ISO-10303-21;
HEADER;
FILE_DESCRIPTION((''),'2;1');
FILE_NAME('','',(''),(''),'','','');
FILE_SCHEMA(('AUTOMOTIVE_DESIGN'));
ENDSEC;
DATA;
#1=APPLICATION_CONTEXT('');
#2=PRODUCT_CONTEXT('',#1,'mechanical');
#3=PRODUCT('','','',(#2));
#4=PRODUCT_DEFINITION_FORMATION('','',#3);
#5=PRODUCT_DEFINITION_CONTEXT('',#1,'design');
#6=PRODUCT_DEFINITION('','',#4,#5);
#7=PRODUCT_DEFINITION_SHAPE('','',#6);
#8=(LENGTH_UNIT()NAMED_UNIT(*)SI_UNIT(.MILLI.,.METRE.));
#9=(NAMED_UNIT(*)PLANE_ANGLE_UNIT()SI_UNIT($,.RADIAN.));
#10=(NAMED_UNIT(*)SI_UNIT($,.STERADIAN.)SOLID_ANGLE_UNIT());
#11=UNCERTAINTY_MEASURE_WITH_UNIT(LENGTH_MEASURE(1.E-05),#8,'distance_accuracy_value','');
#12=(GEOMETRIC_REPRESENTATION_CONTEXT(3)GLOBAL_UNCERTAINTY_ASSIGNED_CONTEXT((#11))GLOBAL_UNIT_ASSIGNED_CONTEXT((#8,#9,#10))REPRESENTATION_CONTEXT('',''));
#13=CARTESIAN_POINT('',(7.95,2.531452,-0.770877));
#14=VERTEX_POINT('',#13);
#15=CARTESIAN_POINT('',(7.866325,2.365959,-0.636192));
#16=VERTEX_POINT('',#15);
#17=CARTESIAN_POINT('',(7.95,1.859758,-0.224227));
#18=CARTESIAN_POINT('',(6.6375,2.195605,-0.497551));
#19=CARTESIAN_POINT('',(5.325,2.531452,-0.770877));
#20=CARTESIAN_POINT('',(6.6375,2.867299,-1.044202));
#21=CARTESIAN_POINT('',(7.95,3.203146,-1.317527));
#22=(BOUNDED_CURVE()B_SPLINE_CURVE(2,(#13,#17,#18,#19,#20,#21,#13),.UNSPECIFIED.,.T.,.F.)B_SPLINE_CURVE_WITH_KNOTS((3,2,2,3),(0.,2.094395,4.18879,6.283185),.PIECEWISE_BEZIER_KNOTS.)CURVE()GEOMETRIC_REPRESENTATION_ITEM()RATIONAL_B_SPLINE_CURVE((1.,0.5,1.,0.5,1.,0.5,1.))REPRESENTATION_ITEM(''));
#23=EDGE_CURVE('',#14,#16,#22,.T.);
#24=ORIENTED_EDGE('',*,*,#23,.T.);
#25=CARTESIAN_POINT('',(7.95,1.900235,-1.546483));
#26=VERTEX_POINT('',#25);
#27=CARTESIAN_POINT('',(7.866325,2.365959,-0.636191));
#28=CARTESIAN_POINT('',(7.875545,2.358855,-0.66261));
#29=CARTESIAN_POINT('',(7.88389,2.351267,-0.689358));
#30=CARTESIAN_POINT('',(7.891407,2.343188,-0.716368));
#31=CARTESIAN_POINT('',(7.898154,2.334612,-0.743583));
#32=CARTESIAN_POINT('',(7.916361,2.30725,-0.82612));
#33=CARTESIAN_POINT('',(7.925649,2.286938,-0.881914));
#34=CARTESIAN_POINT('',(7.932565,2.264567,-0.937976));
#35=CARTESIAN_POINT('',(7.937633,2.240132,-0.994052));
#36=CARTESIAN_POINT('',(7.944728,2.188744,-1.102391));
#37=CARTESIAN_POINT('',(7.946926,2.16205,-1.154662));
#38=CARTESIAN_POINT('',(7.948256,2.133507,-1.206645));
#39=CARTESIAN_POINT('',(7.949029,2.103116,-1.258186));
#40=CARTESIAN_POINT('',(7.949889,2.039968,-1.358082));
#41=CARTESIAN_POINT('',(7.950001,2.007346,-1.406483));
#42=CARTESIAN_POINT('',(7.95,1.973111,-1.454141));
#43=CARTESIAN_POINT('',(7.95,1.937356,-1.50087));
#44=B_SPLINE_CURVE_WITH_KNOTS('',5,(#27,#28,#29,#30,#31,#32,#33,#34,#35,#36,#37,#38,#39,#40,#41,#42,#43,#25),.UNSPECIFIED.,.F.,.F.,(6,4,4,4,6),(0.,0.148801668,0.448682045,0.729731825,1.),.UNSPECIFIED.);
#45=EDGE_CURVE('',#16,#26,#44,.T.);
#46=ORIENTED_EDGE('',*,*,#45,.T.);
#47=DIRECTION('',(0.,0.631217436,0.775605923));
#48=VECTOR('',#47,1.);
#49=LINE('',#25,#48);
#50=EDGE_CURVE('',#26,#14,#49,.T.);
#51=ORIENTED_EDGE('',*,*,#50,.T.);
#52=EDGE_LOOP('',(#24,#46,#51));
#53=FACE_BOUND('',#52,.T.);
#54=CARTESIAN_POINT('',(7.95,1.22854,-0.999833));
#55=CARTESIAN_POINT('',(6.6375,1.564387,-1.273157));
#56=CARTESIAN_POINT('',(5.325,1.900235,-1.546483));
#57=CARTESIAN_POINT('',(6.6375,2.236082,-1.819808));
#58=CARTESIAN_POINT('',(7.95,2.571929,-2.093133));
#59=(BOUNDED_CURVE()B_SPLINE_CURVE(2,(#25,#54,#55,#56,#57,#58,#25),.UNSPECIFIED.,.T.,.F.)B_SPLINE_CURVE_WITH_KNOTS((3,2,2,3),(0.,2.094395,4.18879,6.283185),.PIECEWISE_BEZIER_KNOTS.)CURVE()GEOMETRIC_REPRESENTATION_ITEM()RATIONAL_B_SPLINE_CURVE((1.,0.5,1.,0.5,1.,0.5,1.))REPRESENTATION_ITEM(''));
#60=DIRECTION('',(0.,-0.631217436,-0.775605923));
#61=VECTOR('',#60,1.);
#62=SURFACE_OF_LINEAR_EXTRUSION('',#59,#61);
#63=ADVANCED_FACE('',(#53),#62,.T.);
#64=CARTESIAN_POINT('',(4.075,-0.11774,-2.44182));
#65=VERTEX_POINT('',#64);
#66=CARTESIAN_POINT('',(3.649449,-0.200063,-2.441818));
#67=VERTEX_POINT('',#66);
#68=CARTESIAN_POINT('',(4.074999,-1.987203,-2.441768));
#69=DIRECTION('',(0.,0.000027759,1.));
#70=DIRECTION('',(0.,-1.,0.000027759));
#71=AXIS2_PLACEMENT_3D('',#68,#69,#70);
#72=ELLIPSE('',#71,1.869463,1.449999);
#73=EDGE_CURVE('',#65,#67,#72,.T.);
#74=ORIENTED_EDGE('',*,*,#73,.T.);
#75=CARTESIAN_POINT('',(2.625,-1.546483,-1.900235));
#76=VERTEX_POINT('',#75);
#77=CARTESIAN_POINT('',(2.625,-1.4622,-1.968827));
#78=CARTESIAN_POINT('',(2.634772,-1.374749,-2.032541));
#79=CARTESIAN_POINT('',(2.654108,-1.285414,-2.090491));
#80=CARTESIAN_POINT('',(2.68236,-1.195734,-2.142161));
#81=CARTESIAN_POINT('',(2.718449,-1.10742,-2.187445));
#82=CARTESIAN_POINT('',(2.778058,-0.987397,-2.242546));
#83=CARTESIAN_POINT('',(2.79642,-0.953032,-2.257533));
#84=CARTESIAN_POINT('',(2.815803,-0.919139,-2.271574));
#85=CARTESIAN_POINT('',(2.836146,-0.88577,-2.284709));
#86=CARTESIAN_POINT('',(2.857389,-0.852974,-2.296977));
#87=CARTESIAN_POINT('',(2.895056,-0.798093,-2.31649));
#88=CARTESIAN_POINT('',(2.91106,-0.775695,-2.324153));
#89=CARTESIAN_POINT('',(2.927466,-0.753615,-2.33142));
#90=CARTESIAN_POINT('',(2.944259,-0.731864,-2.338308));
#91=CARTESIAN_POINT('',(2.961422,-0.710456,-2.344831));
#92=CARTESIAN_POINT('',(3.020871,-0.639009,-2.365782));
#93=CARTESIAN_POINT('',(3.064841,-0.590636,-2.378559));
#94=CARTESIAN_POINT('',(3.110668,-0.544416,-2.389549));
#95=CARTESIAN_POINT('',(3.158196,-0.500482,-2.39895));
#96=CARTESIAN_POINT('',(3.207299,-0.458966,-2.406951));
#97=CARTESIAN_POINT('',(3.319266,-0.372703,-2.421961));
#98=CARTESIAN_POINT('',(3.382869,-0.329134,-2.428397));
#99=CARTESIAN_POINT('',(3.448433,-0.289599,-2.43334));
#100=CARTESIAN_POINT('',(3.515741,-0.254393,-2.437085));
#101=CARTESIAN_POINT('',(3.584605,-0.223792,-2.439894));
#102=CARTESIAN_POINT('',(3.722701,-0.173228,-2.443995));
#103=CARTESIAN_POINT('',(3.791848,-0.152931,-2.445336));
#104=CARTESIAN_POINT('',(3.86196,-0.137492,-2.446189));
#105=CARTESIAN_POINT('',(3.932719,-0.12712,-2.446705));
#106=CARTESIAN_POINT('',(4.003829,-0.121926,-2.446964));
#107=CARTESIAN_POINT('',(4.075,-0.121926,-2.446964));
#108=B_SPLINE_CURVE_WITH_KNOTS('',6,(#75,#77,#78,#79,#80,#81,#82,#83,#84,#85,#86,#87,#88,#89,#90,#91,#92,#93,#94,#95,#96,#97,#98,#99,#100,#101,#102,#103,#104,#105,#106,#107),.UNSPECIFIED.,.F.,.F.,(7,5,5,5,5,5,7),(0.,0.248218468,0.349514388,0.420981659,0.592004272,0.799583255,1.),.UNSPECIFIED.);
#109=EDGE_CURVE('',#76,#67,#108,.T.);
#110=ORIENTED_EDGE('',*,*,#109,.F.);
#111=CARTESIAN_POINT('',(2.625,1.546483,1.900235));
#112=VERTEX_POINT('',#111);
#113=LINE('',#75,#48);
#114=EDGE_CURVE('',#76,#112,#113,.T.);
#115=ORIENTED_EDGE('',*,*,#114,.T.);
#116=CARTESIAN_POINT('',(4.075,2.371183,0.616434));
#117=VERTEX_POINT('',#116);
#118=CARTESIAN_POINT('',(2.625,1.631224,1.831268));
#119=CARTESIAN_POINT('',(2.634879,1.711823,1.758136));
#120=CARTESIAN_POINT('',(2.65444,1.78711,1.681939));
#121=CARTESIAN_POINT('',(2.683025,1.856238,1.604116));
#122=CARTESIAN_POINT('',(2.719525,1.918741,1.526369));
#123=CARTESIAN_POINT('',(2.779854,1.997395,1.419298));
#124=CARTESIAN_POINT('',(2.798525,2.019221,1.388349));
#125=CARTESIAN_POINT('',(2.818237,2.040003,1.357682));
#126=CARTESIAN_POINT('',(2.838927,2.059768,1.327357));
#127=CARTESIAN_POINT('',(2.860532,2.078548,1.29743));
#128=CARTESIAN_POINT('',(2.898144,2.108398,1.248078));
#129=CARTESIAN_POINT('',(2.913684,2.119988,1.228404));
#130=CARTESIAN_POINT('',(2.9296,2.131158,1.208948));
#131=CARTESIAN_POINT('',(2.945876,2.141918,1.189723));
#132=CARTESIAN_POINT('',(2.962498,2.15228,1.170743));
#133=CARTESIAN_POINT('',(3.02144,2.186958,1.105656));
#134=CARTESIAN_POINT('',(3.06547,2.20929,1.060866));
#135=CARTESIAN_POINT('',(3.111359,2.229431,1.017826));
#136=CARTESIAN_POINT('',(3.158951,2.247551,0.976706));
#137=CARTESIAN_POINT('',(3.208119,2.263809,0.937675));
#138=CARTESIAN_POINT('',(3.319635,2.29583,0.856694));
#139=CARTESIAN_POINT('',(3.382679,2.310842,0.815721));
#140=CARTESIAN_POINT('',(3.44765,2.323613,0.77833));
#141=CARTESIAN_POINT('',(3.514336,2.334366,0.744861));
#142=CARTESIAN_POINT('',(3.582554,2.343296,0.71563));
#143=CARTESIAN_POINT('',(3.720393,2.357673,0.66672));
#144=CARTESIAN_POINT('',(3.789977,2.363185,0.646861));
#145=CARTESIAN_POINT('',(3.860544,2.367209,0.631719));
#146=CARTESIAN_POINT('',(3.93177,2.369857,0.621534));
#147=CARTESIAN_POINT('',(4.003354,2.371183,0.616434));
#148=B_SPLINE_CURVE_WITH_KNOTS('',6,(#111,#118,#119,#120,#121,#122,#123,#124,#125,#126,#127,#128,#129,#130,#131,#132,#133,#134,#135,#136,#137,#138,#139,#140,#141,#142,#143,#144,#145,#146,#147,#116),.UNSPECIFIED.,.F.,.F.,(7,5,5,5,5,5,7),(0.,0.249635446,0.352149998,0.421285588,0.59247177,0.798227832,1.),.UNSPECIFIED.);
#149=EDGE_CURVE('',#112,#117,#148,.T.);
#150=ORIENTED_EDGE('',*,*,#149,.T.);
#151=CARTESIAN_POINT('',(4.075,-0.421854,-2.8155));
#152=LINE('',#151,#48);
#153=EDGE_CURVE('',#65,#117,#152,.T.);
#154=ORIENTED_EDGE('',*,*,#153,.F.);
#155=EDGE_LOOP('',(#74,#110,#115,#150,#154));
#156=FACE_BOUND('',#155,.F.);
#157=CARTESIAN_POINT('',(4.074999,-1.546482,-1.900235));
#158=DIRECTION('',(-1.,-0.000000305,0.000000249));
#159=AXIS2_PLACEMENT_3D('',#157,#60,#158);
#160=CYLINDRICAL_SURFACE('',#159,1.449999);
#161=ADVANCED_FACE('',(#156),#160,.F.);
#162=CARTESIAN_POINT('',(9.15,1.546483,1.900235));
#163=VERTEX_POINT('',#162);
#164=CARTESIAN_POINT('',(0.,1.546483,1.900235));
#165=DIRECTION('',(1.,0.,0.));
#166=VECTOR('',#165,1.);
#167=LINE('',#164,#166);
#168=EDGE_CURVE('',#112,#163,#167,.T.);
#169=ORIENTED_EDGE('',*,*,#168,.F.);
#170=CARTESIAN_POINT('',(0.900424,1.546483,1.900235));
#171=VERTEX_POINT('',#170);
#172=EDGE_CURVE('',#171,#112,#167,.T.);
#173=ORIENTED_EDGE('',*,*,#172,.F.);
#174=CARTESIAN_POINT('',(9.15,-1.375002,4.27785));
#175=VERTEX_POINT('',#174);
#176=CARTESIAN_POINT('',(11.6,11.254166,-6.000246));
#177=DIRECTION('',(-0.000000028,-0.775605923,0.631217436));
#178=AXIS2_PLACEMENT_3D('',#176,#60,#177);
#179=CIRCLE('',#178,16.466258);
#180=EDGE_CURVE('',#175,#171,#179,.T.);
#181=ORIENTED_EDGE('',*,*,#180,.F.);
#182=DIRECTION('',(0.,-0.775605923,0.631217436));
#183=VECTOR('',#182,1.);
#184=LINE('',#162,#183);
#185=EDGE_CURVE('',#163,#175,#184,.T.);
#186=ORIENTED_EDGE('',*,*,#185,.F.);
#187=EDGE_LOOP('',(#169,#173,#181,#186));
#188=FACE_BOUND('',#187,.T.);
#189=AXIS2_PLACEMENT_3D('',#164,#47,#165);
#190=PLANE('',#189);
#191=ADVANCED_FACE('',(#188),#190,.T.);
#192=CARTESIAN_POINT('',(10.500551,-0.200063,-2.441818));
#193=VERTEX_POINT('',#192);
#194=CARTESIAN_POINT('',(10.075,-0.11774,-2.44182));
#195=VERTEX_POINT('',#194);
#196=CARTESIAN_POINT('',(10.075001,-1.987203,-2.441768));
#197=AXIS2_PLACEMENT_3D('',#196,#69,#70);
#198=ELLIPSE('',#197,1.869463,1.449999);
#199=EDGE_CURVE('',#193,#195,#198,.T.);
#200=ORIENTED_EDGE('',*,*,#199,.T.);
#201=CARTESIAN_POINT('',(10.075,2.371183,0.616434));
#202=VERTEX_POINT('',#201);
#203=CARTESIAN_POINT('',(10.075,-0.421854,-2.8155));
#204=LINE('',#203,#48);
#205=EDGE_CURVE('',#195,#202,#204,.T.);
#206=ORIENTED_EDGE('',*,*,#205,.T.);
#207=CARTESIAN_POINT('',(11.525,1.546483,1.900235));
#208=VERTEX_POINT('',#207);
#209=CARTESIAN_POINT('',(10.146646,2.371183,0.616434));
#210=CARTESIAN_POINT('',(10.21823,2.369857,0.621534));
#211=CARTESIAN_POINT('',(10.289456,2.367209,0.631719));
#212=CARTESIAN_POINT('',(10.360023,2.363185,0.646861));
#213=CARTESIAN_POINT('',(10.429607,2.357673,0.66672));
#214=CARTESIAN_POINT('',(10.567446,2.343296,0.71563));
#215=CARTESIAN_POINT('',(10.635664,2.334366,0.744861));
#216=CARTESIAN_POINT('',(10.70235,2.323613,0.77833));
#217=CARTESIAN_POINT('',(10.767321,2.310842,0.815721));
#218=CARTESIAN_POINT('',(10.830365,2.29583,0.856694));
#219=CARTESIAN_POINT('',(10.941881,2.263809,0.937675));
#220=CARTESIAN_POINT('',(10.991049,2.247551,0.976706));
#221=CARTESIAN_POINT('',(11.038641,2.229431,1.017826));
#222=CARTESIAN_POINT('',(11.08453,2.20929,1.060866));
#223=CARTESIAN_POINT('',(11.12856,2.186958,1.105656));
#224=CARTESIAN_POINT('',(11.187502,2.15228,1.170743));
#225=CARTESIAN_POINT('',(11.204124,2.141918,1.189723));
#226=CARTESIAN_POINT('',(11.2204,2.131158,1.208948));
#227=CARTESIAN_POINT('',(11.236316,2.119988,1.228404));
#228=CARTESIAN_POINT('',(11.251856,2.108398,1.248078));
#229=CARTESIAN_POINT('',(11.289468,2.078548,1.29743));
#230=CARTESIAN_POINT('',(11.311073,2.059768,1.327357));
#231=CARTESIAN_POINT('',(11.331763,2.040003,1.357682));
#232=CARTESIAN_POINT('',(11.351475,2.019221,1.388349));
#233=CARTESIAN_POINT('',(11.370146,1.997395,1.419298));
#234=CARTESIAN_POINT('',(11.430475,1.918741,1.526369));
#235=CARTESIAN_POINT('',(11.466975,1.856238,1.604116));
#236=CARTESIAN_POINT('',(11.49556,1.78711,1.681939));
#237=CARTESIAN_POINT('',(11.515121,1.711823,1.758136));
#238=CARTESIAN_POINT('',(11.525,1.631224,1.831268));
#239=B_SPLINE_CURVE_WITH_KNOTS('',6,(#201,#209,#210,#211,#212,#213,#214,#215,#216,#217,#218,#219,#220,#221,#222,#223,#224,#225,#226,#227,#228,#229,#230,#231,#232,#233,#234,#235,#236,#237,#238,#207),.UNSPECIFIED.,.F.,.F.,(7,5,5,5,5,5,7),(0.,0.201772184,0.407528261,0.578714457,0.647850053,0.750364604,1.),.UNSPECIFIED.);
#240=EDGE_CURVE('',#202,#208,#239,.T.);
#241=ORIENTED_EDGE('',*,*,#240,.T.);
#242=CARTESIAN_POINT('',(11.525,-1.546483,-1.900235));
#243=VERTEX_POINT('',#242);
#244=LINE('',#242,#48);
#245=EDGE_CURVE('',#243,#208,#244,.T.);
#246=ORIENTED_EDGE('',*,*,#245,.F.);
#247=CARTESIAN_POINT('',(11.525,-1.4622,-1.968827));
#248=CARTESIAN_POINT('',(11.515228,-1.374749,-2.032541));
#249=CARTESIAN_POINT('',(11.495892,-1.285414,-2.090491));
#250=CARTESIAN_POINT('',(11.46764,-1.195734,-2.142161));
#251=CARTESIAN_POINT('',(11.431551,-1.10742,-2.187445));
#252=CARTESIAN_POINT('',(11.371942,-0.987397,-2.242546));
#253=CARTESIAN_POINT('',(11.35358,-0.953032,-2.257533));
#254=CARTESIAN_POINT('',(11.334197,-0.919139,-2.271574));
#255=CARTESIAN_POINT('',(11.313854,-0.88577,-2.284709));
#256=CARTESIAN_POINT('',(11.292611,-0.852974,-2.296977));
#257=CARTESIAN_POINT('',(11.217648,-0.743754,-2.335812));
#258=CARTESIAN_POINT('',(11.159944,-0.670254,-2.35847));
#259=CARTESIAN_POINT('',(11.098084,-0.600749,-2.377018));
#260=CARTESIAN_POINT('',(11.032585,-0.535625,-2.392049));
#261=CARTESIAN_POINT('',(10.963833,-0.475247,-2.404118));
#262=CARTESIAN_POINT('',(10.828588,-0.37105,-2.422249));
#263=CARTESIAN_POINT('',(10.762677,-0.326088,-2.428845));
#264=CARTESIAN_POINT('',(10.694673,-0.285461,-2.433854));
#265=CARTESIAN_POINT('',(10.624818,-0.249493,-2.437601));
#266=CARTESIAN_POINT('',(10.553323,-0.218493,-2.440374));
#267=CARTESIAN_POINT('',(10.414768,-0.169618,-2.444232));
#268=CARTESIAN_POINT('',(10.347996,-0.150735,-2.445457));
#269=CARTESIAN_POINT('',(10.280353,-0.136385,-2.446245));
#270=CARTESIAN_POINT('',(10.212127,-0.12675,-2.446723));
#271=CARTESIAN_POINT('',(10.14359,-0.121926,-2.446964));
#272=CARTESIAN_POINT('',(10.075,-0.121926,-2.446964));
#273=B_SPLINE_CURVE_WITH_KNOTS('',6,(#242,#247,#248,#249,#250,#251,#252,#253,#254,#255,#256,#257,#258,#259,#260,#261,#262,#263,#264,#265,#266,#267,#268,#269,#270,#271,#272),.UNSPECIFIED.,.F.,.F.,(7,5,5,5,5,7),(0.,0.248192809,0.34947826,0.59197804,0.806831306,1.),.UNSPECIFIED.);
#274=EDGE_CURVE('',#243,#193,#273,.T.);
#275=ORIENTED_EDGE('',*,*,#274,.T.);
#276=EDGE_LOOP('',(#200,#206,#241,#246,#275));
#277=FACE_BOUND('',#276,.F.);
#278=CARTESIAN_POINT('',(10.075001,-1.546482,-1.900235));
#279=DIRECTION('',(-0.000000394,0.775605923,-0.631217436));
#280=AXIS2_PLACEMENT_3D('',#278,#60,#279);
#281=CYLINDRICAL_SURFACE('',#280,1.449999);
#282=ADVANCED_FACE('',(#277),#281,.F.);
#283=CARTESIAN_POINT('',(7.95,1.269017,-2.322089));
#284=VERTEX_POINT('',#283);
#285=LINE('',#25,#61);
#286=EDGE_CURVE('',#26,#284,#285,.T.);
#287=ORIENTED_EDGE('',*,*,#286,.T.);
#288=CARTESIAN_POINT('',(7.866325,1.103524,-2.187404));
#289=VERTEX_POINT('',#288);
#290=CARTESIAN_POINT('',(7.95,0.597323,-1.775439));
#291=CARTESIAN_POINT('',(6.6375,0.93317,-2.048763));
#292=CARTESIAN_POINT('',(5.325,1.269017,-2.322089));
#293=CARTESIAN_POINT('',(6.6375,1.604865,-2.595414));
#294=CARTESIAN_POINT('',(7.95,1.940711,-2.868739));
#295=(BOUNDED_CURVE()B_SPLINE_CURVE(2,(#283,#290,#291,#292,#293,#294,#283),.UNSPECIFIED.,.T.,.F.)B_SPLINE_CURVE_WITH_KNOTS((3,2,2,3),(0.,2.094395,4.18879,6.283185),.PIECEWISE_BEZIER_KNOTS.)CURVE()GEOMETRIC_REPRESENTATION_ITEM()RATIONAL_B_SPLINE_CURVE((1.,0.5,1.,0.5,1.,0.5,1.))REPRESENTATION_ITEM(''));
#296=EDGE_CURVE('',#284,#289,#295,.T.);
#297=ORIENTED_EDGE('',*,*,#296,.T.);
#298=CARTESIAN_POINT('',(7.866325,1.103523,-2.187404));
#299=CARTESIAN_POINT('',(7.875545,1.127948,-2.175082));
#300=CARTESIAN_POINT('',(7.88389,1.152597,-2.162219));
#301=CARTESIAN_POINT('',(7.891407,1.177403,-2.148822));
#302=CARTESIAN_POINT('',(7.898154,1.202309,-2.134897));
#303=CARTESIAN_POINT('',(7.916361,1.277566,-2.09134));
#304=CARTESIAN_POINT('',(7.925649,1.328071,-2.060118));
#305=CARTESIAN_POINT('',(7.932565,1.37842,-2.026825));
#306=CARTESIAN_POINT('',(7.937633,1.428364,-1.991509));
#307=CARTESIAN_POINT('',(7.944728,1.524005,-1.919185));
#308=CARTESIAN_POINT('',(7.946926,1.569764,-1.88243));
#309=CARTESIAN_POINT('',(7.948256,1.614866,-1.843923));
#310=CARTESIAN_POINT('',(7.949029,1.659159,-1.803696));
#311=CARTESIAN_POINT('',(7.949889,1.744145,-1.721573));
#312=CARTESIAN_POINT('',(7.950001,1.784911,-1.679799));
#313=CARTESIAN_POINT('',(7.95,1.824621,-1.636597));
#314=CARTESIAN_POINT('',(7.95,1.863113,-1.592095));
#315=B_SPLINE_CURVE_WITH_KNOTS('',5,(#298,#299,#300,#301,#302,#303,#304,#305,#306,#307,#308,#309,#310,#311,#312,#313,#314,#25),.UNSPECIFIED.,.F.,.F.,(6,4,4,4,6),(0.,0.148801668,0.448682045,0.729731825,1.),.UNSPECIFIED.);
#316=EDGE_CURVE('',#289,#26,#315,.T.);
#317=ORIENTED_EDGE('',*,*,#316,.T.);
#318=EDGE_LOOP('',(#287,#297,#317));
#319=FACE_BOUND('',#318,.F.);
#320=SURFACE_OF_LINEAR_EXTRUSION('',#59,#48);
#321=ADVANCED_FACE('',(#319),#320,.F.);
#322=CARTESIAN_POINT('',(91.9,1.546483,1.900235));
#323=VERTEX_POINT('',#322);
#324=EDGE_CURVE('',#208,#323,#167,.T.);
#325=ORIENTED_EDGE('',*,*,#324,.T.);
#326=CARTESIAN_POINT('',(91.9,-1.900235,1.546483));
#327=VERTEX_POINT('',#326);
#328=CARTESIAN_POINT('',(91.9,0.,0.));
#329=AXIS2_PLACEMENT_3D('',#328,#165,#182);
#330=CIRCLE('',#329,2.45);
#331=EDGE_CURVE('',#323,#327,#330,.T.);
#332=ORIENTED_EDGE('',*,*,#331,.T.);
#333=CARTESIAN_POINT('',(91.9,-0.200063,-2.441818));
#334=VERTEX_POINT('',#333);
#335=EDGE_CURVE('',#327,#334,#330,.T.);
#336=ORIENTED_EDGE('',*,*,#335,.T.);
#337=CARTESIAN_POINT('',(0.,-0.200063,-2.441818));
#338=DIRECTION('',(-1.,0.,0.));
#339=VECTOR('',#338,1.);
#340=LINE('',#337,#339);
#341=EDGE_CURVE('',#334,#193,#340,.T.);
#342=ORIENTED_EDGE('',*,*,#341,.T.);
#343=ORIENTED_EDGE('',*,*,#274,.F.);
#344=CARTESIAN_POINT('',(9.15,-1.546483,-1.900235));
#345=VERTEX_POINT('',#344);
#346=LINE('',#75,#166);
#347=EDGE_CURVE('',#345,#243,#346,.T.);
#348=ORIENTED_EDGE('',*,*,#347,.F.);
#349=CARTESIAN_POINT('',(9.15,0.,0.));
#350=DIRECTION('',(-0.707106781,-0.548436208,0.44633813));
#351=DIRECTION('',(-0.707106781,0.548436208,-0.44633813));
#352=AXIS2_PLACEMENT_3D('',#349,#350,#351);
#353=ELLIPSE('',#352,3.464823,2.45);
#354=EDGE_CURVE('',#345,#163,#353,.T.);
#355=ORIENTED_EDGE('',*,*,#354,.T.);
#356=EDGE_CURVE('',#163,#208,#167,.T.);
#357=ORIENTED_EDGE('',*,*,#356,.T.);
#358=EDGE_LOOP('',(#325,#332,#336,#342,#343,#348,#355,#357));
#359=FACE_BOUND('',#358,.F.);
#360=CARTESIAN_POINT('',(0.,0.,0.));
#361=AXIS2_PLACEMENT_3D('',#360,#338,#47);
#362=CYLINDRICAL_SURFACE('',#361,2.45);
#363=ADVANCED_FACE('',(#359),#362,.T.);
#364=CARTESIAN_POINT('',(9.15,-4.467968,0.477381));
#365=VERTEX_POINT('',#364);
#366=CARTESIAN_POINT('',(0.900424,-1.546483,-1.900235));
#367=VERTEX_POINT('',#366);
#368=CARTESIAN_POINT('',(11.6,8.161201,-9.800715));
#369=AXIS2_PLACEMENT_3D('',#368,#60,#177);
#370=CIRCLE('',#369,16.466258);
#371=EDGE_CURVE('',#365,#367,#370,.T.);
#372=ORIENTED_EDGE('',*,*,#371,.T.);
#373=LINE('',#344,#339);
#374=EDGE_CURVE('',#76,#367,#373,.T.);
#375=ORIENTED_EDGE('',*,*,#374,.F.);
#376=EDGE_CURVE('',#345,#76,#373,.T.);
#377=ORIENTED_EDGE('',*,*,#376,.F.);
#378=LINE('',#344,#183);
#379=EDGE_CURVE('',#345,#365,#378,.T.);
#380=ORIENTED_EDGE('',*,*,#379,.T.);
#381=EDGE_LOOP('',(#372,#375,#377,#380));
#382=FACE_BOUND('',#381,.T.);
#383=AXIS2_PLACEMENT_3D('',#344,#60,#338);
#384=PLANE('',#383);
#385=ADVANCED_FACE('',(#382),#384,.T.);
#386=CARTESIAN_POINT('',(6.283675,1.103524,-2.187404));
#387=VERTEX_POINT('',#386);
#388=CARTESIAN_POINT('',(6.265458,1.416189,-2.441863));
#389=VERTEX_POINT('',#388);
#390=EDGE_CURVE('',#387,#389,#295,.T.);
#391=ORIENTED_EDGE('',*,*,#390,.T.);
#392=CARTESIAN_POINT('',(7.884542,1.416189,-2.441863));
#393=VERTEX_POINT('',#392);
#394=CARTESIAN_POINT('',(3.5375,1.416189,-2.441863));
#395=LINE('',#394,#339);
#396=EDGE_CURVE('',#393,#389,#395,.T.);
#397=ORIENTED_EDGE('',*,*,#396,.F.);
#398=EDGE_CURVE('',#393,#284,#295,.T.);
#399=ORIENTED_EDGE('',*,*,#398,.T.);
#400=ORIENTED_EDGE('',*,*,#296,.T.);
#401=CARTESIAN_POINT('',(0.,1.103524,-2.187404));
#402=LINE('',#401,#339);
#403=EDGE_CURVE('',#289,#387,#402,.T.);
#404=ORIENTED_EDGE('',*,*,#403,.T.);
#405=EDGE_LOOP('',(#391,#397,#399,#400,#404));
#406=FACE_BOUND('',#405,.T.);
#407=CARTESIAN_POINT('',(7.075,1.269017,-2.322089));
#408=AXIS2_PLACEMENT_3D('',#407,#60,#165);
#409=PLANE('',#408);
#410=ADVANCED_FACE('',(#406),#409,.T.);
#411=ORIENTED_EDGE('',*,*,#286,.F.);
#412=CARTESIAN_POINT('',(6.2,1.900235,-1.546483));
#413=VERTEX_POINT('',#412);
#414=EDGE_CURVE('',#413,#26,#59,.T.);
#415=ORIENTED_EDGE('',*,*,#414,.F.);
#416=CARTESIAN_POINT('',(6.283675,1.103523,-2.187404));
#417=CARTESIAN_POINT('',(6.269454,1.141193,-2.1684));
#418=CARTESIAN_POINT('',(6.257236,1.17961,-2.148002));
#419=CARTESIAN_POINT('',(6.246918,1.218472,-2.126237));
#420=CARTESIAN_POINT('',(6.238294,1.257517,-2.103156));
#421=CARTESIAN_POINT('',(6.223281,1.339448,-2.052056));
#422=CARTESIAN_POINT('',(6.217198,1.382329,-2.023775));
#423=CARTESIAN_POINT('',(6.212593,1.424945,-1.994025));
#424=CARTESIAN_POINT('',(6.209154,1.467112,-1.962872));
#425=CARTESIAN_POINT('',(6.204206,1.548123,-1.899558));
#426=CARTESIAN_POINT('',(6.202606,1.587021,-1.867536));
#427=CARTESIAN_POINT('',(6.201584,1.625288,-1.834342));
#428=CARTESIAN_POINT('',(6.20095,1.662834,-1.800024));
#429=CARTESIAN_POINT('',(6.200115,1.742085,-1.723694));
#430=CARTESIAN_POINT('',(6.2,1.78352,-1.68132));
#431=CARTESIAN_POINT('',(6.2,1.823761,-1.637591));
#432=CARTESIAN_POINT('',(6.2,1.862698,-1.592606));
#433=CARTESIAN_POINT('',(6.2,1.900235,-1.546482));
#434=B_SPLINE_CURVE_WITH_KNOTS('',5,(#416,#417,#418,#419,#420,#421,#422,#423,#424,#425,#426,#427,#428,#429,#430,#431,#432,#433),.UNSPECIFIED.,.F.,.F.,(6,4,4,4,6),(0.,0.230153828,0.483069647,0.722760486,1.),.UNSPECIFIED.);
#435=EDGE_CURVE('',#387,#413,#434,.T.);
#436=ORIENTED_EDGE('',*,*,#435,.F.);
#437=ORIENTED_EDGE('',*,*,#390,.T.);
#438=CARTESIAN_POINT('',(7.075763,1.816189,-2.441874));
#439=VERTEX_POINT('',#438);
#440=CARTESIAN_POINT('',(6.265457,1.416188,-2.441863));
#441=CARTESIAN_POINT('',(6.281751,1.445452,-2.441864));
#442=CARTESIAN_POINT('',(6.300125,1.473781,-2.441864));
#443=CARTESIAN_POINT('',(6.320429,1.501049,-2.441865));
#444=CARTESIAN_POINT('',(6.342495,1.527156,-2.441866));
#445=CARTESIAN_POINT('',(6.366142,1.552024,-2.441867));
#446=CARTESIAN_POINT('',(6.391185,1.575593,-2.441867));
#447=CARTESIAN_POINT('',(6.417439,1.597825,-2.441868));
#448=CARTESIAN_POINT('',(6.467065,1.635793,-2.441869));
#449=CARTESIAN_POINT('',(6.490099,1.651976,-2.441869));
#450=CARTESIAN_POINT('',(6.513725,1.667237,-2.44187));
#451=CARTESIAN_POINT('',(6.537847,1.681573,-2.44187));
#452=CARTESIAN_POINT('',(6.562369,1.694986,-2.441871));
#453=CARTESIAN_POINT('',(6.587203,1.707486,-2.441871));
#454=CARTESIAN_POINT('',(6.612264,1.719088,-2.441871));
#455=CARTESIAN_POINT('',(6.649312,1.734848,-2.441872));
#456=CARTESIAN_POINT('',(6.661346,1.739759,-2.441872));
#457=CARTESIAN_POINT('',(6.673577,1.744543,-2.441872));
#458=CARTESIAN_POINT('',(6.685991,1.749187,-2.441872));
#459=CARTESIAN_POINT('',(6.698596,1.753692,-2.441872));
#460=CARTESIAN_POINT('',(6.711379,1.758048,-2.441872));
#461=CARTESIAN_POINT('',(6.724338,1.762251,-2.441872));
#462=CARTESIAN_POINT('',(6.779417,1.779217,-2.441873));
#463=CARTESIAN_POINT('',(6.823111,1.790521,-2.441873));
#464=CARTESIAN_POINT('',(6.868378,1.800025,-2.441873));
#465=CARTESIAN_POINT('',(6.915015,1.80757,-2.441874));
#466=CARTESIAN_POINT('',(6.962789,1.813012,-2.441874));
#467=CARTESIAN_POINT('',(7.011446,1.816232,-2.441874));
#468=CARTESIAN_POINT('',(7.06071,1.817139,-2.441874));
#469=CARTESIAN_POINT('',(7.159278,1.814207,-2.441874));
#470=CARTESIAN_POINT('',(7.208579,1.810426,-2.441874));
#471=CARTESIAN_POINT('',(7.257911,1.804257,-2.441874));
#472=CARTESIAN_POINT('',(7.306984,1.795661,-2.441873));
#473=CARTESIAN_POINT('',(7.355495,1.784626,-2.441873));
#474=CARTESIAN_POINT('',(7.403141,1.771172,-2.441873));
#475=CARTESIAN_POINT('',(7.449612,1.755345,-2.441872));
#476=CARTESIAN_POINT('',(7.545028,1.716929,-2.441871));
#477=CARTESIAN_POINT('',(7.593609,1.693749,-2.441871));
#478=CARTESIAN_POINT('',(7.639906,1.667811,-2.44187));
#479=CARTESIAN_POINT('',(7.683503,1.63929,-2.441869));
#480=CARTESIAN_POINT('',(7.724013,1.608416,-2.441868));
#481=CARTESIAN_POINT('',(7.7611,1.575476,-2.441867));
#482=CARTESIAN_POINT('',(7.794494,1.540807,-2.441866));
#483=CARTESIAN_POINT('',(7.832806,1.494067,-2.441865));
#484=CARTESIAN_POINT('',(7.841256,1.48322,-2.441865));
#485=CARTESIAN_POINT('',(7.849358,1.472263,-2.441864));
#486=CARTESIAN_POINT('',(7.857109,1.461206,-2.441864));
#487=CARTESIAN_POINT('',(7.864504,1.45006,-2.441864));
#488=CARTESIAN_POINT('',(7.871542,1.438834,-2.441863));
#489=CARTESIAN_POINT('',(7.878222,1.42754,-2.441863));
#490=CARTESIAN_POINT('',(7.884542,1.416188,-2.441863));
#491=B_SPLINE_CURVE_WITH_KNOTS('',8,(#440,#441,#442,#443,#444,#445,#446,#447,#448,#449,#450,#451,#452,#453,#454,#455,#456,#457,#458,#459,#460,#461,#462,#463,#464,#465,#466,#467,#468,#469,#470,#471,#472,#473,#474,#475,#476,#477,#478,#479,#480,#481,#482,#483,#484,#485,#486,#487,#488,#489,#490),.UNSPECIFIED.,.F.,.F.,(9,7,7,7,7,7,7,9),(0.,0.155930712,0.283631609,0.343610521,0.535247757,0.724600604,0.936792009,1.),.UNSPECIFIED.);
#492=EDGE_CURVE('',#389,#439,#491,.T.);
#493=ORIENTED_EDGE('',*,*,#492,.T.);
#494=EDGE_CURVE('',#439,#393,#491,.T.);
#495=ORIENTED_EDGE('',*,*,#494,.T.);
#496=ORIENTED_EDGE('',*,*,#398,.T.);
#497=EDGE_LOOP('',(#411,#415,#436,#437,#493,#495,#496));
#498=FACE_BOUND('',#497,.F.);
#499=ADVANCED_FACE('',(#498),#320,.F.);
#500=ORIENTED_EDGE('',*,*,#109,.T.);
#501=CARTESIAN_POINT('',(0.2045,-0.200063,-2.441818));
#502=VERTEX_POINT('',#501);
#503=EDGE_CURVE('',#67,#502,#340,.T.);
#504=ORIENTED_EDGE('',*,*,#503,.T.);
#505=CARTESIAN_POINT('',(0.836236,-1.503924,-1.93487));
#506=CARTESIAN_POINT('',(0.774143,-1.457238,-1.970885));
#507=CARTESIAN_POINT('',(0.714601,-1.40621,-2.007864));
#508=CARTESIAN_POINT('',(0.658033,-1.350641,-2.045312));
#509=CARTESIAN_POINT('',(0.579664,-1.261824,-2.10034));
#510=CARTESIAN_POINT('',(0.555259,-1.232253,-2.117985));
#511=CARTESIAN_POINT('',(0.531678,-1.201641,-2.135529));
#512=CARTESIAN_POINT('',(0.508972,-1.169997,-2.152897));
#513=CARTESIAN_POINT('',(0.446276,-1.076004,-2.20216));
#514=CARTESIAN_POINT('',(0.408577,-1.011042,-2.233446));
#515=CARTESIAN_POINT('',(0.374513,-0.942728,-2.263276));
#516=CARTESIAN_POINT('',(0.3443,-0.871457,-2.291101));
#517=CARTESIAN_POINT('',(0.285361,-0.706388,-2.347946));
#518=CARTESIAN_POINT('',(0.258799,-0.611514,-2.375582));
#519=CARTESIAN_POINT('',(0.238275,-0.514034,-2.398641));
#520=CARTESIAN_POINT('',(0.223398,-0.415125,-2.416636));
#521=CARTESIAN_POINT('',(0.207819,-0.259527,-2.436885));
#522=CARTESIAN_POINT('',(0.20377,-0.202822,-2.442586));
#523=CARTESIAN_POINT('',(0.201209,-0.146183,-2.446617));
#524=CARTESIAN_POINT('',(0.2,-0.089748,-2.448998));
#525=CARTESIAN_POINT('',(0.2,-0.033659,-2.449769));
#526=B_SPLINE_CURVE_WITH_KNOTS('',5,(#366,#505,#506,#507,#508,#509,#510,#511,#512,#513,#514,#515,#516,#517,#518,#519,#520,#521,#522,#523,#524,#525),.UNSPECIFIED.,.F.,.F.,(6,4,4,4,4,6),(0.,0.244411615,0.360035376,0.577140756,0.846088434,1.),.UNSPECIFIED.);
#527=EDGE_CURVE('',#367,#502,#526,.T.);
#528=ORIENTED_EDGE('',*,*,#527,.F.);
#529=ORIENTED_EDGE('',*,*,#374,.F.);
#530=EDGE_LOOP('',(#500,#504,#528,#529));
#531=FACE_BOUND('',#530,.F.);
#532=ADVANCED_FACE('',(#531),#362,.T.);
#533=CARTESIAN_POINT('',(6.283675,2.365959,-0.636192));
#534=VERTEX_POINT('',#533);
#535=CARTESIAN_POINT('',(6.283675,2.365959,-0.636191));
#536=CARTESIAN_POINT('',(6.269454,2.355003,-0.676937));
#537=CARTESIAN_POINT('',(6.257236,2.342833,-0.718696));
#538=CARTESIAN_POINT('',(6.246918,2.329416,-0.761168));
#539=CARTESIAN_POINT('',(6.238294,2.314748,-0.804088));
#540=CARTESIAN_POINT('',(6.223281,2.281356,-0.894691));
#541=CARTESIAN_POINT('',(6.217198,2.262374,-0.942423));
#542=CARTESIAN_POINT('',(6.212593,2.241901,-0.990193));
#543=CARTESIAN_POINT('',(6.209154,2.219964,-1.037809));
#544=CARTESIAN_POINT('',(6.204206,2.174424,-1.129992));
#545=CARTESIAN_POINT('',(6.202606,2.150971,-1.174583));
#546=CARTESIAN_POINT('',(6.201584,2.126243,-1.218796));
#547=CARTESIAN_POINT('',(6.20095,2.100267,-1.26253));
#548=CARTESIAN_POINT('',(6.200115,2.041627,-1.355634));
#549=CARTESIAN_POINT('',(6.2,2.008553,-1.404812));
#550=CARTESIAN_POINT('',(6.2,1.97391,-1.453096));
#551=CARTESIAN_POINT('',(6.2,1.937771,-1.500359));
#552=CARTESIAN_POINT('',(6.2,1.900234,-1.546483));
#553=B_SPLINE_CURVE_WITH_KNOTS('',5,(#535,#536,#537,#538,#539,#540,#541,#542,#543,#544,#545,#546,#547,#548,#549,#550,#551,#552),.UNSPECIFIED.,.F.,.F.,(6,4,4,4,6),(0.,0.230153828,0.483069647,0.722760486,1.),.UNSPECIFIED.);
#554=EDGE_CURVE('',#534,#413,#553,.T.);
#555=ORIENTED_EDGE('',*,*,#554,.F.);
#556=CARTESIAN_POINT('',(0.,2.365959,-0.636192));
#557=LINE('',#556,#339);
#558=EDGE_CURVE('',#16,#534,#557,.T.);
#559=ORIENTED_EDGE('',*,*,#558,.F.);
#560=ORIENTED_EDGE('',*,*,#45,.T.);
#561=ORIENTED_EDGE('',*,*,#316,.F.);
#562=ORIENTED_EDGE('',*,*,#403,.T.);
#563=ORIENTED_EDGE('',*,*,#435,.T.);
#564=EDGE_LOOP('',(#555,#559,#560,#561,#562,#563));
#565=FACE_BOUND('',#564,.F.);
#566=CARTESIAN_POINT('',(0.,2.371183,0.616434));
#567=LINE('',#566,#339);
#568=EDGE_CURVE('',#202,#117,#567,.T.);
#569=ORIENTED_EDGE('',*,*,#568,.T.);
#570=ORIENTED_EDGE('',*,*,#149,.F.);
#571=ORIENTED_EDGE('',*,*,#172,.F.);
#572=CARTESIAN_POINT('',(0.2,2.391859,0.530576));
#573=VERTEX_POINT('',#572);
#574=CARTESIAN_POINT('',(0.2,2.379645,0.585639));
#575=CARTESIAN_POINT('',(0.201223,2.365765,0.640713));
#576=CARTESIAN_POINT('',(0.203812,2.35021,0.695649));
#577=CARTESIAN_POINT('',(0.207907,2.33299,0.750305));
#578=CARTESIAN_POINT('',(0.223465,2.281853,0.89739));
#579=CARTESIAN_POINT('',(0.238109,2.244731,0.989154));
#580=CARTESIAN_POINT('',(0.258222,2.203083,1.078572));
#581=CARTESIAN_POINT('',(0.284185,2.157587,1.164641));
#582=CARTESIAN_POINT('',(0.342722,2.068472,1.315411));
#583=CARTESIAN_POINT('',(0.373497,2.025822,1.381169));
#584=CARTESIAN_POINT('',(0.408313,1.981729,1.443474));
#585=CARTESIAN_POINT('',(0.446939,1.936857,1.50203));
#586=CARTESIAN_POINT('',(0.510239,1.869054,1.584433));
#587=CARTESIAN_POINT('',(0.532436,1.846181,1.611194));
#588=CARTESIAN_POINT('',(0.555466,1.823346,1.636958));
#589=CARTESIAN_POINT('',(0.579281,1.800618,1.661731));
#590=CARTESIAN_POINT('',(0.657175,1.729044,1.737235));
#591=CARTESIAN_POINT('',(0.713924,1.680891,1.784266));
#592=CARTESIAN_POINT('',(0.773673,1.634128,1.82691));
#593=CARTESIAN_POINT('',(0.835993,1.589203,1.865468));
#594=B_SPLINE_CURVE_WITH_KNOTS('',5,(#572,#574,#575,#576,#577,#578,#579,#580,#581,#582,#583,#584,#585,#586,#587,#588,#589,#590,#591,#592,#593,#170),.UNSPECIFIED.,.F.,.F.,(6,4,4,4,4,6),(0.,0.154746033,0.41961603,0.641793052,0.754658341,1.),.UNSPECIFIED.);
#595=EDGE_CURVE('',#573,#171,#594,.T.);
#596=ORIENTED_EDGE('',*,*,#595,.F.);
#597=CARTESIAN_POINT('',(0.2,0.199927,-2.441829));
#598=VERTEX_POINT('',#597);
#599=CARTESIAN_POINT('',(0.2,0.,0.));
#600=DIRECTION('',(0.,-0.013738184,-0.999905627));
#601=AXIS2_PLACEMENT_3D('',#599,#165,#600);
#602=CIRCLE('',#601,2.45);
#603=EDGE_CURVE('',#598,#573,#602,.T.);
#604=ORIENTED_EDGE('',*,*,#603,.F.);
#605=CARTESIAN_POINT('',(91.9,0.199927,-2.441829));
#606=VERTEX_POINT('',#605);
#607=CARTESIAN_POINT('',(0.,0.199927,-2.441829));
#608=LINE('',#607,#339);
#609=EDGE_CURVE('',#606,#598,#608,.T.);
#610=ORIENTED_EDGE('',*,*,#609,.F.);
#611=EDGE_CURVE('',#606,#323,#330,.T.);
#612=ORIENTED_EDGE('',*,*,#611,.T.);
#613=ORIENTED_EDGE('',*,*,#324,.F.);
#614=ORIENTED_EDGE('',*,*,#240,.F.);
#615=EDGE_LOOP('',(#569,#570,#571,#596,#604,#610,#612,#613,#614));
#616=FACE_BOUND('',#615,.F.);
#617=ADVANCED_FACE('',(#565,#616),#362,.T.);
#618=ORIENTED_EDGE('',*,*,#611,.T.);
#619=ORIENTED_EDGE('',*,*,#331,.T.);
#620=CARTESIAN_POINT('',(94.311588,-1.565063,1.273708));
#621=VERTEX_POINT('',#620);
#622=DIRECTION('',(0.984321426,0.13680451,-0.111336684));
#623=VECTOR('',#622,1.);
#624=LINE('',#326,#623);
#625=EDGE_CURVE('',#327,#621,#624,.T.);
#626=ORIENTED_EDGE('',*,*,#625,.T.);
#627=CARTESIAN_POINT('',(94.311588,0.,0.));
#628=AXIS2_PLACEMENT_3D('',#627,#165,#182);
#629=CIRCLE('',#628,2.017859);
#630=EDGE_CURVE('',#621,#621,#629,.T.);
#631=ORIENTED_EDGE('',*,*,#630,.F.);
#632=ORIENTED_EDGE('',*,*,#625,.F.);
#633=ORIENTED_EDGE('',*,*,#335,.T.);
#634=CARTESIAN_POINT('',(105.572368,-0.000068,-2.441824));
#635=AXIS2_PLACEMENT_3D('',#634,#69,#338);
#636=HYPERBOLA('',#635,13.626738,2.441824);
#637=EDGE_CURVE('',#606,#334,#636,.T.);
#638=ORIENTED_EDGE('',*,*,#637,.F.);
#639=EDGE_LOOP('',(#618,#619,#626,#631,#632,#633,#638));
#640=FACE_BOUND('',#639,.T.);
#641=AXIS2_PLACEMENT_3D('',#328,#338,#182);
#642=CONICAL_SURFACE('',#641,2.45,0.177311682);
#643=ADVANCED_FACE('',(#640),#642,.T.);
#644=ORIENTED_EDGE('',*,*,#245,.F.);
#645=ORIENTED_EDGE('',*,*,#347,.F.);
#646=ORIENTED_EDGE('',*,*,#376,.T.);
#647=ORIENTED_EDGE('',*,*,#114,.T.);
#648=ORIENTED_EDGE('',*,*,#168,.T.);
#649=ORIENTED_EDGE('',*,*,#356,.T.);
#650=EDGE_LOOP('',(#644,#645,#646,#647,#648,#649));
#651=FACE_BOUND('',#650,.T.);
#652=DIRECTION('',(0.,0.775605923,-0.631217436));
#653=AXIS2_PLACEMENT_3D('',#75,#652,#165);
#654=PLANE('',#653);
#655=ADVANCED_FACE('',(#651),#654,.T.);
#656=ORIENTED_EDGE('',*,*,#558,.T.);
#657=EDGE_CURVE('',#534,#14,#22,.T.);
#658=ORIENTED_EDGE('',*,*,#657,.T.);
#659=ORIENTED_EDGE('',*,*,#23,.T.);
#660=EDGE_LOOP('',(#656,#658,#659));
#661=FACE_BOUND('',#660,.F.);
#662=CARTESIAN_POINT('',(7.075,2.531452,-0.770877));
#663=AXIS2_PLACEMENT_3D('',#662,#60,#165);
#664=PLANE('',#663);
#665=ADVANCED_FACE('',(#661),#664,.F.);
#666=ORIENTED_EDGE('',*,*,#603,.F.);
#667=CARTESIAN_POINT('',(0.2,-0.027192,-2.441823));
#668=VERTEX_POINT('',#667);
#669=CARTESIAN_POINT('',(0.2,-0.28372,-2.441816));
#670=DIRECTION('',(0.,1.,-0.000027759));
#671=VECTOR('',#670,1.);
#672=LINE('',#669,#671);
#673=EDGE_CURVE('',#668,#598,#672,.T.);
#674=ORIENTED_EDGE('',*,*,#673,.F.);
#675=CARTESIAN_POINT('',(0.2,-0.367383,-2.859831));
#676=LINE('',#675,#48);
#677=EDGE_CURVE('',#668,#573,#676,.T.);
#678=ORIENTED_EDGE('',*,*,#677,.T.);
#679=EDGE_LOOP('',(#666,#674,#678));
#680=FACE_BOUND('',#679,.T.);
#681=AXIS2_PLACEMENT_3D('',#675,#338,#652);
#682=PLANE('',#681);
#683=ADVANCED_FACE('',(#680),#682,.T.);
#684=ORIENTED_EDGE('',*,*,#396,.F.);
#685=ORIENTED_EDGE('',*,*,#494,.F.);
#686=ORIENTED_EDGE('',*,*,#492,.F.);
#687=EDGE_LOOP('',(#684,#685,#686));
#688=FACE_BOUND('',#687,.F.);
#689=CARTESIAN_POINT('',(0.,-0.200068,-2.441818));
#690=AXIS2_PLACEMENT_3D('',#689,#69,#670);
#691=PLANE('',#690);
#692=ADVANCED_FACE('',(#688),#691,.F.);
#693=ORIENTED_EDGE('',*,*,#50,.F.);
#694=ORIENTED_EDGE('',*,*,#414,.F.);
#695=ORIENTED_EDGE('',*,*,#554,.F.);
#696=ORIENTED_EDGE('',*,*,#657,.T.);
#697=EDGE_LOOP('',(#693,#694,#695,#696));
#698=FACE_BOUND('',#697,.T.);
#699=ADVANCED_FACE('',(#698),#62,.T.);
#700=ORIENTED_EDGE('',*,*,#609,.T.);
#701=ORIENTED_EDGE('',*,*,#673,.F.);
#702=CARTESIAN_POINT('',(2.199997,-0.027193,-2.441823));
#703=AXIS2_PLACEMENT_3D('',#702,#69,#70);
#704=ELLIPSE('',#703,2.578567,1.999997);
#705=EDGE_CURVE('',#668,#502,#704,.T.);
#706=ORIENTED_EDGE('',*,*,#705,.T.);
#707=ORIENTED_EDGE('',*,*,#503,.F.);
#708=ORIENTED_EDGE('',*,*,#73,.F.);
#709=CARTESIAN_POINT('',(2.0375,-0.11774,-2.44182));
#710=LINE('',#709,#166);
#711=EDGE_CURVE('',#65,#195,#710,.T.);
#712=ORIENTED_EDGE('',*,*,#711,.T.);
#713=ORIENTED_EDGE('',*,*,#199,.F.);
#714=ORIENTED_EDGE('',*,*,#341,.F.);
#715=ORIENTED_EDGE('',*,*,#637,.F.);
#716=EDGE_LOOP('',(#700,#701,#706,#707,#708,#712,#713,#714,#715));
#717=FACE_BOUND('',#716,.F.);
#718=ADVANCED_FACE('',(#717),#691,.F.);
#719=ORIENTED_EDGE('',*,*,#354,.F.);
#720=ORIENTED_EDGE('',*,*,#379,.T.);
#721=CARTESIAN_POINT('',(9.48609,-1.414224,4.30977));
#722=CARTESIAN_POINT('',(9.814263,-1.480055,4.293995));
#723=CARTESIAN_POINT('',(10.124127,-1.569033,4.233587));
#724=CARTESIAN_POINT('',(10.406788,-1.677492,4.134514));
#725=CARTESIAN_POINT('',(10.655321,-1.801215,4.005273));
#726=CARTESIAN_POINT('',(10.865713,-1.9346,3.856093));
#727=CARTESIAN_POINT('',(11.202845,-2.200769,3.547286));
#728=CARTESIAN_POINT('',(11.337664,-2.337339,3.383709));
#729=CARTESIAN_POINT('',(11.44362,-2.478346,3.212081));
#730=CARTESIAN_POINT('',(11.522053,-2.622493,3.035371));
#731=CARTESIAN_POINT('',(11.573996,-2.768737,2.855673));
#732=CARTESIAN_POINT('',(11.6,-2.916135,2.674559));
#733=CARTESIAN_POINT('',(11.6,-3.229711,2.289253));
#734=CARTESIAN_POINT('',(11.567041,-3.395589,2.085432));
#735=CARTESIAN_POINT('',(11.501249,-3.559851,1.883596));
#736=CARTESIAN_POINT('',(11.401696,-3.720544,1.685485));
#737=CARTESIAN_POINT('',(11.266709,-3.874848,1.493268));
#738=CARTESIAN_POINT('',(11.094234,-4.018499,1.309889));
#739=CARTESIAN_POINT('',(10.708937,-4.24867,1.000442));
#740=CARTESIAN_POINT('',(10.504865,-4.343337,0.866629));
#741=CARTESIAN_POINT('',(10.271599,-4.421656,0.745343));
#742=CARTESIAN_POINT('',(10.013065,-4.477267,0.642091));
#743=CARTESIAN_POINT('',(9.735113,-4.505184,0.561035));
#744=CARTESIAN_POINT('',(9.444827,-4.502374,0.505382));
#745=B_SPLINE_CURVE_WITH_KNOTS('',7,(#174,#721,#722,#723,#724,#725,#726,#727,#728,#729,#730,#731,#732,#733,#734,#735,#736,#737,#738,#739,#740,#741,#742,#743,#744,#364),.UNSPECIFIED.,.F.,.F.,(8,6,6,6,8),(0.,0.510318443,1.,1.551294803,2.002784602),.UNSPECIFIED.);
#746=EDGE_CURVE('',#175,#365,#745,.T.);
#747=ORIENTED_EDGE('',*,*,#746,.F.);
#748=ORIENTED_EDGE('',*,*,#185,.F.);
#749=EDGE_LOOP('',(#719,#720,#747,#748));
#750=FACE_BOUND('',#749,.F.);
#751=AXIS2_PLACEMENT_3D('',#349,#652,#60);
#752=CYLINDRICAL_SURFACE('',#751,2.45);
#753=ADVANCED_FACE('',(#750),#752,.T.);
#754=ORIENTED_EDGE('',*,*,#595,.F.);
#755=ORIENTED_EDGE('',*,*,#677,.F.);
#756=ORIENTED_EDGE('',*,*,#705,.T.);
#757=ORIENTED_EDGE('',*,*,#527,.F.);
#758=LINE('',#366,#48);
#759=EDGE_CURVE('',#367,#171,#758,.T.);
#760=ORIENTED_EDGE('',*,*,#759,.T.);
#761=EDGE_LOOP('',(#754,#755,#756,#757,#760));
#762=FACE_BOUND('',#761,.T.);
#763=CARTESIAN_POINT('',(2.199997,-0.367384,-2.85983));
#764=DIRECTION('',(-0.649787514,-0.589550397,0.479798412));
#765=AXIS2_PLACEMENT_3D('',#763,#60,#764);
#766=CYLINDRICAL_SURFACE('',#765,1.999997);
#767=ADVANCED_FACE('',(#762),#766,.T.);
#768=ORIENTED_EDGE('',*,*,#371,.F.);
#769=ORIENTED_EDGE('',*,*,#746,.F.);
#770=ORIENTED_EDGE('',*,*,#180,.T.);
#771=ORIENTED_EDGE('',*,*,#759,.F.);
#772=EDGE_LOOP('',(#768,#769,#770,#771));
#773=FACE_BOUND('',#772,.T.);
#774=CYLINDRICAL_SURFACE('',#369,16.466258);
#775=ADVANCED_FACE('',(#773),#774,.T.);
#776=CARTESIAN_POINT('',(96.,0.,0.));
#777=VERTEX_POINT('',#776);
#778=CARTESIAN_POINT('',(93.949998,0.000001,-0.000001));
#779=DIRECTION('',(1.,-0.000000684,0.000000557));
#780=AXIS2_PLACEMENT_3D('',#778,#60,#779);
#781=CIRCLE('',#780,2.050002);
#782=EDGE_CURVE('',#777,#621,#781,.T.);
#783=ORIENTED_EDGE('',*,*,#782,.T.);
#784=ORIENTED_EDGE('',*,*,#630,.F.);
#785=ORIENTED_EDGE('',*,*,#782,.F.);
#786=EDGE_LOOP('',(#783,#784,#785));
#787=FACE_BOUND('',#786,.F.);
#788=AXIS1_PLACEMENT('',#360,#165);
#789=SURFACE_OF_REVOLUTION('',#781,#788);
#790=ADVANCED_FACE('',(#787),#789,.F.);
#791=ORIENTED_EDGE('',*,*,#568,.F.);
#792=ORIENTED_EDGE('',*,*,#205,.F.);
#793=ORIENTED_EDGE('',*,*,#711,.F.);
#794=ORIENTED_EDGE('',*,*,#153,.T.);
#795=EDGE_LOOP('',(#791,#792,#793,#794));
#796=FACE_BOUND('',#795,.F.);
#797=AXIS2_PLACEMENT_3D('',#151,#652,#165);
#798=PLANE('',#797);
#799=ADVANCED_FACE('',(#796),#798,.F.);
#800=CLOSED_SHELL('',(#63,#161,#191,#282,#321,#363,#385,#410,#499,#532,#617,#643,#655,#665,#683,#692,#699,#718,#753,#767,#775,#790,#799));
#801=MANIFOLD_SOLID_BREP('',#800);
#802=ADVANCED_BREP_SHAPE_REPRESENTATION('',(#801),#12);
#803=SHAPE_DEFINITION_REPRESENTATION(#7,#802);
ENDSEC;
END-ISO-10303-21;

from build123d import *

# Parameters (mm, degrees)
SKETCH_R             = 2.45
PAD_DEPTH            = 96
PAD001_DEPTH         = 3.95
POCKET_DEPTH         = 5
PAD002_DEPTH         = 1
PAD002_DEPTH_BACK    = 1
POCKET001_DEPTH      = 10
POCKET002_DEPTH      = 100
POCKET002_DEPTH_BACK = -100
BODY_PLACEMENT_ANGLE = 50.86


with BuildPart() as part:
    # Sketch → Pad (new body)
    with BuildSketch(Plane.YZ):
        Circle(SKETCH_R)
    extrude(amount=PAD_DEPTH)

    # Sketch001 → Pad001 (join)
    with BuildSketch(Plane.XY):
        with BuildLine():
            Line((0, -2.45), (0, 2.45))
            Line((0, 2.45), (9.15, 2.45))
            ThreePointArc((9.15, -2.45), (11.6, 0), (9.15, 2.45))
            Line((9.15, -2.45), (0, -2.45))
        make_face()
    extrude(amount=PAD001_DEPTH)

    # Sketch002 (on Face4 of Pad001) → Pocket (cut)
    with BuildSketch(Plane(origin=(0, -2.45, 0), x_dir=(0, 0, -1), z_dir=(0, -1, 0))):
        with BuildLine():
            Line((-3.95, 11.6), (-3.95, -0.8))
            Line((-3.95, -0.8), (2.45, -0.8))
            Line((2.45, -0.8), (2.45, 0.2))
            Line((1.520231, 0.2), (2.45, 0.2))
            ThreePointArc((0, 0.900424), (0.683318, 0.383526), (1.520231, 0.2))
            ThreePointArc((-3.95, 11.6), (-2.930968, 5.897294), (0, 0.900424))
        make_face()
    extrude(amount=-POCKET_DEPTH, mode=Mode.SUBTRACT)

    # Sketch003 → Pad002 (join, two sides)
    with BuildSketch(Plane.XZ) as pad002_sk:
        with BuildLine():
            add(Edge.make_bspline(
                [(7.95, -2.45), (7.95, -1.583975), (6.6375, -2.016987), (5.325, -2.45), (6.6375, -2.883013), (7.95, -3.316025), (7.95, -2.45)],
                knots=[0, 0, 0, 2.094395, 2.094395, 4.18879, 4.18879, 6.283185, 6.283185, 6.283185], degree=2, weights=[1, 0.5, 1, 0.5, 1, 0.5, 1]))
        make_face()
    extrude(amount=PAD002_DEPTH)
    extrude(pad002_sk.sketch, amount=-PAD002_DEPTH_BACK)

    # Sketch004 (on Face2 of Pad002) → Pocket001 (cut)
    with BuildSketch(Plane(origin=(0, -2.45, 0), x_dir=(0, 0, -1), z_dir=(0, -1, 0))):
        with BuildLine():
            Line((1.45, 4.075), (1.45, 10.075))
            ThreePointArc((1.45, 10.075), (1.025305, 11.100305), (0, 11.525))
            Line((0, 2.625), (0, 11.525))
            ThreePointArc((0, 2.625), (1.025305, 3.049695), (1.45, 4.075))
        make_face()
    extrude(amount=-POCKET001_DEPTH, mode=Mode.SUBTRACT)

    # Sketch005 → Groove (revolve, cut)
    with BuildSketch(Plane.XZ):
        with BuildLine():
            Line((96, 2.45), (91.9, 2.45))
            Line((91.9, 2.45), (94.311588, 2.017859))
            ThreePointArc((96, 0), (95.52222, 1.315531), (94.311588, 2.017859))
            Line((96, 0), (97, 0))
            Line((97, 2.45), (97, 0))
            Line((96, 2.45), (97, 2.45))
        make_face()
    revolve(axis=Axis((0, 0, 0), (1, 0, 0)), mode=Mode.SUBTRACT)

    # Sketch006 → Pocket002 (cut, two sides)
    with BuildSketch(Plane.YZ) as pocket002_sk:
        Polygon((-2.020175, -1.386144), (-0.747522, -2.95), (-2.020175, -2.95), align=None)
    extrude(amount=-POCKET002_DEPTH, mode=Mode.SUBTRACT)
    extrude(pocket002_sk.sketch, amount=-POCKET002_DEPTH_BACK, mode=Mode.SUBTRACT)


with BuildPart() as part_1:
    # Body placement: moved
    add(part.part.rotate(Axis((0, 0, 0), (1, 0, 0)), BODY_PLACEMENT_ANGLE))


solid = part_1.part
